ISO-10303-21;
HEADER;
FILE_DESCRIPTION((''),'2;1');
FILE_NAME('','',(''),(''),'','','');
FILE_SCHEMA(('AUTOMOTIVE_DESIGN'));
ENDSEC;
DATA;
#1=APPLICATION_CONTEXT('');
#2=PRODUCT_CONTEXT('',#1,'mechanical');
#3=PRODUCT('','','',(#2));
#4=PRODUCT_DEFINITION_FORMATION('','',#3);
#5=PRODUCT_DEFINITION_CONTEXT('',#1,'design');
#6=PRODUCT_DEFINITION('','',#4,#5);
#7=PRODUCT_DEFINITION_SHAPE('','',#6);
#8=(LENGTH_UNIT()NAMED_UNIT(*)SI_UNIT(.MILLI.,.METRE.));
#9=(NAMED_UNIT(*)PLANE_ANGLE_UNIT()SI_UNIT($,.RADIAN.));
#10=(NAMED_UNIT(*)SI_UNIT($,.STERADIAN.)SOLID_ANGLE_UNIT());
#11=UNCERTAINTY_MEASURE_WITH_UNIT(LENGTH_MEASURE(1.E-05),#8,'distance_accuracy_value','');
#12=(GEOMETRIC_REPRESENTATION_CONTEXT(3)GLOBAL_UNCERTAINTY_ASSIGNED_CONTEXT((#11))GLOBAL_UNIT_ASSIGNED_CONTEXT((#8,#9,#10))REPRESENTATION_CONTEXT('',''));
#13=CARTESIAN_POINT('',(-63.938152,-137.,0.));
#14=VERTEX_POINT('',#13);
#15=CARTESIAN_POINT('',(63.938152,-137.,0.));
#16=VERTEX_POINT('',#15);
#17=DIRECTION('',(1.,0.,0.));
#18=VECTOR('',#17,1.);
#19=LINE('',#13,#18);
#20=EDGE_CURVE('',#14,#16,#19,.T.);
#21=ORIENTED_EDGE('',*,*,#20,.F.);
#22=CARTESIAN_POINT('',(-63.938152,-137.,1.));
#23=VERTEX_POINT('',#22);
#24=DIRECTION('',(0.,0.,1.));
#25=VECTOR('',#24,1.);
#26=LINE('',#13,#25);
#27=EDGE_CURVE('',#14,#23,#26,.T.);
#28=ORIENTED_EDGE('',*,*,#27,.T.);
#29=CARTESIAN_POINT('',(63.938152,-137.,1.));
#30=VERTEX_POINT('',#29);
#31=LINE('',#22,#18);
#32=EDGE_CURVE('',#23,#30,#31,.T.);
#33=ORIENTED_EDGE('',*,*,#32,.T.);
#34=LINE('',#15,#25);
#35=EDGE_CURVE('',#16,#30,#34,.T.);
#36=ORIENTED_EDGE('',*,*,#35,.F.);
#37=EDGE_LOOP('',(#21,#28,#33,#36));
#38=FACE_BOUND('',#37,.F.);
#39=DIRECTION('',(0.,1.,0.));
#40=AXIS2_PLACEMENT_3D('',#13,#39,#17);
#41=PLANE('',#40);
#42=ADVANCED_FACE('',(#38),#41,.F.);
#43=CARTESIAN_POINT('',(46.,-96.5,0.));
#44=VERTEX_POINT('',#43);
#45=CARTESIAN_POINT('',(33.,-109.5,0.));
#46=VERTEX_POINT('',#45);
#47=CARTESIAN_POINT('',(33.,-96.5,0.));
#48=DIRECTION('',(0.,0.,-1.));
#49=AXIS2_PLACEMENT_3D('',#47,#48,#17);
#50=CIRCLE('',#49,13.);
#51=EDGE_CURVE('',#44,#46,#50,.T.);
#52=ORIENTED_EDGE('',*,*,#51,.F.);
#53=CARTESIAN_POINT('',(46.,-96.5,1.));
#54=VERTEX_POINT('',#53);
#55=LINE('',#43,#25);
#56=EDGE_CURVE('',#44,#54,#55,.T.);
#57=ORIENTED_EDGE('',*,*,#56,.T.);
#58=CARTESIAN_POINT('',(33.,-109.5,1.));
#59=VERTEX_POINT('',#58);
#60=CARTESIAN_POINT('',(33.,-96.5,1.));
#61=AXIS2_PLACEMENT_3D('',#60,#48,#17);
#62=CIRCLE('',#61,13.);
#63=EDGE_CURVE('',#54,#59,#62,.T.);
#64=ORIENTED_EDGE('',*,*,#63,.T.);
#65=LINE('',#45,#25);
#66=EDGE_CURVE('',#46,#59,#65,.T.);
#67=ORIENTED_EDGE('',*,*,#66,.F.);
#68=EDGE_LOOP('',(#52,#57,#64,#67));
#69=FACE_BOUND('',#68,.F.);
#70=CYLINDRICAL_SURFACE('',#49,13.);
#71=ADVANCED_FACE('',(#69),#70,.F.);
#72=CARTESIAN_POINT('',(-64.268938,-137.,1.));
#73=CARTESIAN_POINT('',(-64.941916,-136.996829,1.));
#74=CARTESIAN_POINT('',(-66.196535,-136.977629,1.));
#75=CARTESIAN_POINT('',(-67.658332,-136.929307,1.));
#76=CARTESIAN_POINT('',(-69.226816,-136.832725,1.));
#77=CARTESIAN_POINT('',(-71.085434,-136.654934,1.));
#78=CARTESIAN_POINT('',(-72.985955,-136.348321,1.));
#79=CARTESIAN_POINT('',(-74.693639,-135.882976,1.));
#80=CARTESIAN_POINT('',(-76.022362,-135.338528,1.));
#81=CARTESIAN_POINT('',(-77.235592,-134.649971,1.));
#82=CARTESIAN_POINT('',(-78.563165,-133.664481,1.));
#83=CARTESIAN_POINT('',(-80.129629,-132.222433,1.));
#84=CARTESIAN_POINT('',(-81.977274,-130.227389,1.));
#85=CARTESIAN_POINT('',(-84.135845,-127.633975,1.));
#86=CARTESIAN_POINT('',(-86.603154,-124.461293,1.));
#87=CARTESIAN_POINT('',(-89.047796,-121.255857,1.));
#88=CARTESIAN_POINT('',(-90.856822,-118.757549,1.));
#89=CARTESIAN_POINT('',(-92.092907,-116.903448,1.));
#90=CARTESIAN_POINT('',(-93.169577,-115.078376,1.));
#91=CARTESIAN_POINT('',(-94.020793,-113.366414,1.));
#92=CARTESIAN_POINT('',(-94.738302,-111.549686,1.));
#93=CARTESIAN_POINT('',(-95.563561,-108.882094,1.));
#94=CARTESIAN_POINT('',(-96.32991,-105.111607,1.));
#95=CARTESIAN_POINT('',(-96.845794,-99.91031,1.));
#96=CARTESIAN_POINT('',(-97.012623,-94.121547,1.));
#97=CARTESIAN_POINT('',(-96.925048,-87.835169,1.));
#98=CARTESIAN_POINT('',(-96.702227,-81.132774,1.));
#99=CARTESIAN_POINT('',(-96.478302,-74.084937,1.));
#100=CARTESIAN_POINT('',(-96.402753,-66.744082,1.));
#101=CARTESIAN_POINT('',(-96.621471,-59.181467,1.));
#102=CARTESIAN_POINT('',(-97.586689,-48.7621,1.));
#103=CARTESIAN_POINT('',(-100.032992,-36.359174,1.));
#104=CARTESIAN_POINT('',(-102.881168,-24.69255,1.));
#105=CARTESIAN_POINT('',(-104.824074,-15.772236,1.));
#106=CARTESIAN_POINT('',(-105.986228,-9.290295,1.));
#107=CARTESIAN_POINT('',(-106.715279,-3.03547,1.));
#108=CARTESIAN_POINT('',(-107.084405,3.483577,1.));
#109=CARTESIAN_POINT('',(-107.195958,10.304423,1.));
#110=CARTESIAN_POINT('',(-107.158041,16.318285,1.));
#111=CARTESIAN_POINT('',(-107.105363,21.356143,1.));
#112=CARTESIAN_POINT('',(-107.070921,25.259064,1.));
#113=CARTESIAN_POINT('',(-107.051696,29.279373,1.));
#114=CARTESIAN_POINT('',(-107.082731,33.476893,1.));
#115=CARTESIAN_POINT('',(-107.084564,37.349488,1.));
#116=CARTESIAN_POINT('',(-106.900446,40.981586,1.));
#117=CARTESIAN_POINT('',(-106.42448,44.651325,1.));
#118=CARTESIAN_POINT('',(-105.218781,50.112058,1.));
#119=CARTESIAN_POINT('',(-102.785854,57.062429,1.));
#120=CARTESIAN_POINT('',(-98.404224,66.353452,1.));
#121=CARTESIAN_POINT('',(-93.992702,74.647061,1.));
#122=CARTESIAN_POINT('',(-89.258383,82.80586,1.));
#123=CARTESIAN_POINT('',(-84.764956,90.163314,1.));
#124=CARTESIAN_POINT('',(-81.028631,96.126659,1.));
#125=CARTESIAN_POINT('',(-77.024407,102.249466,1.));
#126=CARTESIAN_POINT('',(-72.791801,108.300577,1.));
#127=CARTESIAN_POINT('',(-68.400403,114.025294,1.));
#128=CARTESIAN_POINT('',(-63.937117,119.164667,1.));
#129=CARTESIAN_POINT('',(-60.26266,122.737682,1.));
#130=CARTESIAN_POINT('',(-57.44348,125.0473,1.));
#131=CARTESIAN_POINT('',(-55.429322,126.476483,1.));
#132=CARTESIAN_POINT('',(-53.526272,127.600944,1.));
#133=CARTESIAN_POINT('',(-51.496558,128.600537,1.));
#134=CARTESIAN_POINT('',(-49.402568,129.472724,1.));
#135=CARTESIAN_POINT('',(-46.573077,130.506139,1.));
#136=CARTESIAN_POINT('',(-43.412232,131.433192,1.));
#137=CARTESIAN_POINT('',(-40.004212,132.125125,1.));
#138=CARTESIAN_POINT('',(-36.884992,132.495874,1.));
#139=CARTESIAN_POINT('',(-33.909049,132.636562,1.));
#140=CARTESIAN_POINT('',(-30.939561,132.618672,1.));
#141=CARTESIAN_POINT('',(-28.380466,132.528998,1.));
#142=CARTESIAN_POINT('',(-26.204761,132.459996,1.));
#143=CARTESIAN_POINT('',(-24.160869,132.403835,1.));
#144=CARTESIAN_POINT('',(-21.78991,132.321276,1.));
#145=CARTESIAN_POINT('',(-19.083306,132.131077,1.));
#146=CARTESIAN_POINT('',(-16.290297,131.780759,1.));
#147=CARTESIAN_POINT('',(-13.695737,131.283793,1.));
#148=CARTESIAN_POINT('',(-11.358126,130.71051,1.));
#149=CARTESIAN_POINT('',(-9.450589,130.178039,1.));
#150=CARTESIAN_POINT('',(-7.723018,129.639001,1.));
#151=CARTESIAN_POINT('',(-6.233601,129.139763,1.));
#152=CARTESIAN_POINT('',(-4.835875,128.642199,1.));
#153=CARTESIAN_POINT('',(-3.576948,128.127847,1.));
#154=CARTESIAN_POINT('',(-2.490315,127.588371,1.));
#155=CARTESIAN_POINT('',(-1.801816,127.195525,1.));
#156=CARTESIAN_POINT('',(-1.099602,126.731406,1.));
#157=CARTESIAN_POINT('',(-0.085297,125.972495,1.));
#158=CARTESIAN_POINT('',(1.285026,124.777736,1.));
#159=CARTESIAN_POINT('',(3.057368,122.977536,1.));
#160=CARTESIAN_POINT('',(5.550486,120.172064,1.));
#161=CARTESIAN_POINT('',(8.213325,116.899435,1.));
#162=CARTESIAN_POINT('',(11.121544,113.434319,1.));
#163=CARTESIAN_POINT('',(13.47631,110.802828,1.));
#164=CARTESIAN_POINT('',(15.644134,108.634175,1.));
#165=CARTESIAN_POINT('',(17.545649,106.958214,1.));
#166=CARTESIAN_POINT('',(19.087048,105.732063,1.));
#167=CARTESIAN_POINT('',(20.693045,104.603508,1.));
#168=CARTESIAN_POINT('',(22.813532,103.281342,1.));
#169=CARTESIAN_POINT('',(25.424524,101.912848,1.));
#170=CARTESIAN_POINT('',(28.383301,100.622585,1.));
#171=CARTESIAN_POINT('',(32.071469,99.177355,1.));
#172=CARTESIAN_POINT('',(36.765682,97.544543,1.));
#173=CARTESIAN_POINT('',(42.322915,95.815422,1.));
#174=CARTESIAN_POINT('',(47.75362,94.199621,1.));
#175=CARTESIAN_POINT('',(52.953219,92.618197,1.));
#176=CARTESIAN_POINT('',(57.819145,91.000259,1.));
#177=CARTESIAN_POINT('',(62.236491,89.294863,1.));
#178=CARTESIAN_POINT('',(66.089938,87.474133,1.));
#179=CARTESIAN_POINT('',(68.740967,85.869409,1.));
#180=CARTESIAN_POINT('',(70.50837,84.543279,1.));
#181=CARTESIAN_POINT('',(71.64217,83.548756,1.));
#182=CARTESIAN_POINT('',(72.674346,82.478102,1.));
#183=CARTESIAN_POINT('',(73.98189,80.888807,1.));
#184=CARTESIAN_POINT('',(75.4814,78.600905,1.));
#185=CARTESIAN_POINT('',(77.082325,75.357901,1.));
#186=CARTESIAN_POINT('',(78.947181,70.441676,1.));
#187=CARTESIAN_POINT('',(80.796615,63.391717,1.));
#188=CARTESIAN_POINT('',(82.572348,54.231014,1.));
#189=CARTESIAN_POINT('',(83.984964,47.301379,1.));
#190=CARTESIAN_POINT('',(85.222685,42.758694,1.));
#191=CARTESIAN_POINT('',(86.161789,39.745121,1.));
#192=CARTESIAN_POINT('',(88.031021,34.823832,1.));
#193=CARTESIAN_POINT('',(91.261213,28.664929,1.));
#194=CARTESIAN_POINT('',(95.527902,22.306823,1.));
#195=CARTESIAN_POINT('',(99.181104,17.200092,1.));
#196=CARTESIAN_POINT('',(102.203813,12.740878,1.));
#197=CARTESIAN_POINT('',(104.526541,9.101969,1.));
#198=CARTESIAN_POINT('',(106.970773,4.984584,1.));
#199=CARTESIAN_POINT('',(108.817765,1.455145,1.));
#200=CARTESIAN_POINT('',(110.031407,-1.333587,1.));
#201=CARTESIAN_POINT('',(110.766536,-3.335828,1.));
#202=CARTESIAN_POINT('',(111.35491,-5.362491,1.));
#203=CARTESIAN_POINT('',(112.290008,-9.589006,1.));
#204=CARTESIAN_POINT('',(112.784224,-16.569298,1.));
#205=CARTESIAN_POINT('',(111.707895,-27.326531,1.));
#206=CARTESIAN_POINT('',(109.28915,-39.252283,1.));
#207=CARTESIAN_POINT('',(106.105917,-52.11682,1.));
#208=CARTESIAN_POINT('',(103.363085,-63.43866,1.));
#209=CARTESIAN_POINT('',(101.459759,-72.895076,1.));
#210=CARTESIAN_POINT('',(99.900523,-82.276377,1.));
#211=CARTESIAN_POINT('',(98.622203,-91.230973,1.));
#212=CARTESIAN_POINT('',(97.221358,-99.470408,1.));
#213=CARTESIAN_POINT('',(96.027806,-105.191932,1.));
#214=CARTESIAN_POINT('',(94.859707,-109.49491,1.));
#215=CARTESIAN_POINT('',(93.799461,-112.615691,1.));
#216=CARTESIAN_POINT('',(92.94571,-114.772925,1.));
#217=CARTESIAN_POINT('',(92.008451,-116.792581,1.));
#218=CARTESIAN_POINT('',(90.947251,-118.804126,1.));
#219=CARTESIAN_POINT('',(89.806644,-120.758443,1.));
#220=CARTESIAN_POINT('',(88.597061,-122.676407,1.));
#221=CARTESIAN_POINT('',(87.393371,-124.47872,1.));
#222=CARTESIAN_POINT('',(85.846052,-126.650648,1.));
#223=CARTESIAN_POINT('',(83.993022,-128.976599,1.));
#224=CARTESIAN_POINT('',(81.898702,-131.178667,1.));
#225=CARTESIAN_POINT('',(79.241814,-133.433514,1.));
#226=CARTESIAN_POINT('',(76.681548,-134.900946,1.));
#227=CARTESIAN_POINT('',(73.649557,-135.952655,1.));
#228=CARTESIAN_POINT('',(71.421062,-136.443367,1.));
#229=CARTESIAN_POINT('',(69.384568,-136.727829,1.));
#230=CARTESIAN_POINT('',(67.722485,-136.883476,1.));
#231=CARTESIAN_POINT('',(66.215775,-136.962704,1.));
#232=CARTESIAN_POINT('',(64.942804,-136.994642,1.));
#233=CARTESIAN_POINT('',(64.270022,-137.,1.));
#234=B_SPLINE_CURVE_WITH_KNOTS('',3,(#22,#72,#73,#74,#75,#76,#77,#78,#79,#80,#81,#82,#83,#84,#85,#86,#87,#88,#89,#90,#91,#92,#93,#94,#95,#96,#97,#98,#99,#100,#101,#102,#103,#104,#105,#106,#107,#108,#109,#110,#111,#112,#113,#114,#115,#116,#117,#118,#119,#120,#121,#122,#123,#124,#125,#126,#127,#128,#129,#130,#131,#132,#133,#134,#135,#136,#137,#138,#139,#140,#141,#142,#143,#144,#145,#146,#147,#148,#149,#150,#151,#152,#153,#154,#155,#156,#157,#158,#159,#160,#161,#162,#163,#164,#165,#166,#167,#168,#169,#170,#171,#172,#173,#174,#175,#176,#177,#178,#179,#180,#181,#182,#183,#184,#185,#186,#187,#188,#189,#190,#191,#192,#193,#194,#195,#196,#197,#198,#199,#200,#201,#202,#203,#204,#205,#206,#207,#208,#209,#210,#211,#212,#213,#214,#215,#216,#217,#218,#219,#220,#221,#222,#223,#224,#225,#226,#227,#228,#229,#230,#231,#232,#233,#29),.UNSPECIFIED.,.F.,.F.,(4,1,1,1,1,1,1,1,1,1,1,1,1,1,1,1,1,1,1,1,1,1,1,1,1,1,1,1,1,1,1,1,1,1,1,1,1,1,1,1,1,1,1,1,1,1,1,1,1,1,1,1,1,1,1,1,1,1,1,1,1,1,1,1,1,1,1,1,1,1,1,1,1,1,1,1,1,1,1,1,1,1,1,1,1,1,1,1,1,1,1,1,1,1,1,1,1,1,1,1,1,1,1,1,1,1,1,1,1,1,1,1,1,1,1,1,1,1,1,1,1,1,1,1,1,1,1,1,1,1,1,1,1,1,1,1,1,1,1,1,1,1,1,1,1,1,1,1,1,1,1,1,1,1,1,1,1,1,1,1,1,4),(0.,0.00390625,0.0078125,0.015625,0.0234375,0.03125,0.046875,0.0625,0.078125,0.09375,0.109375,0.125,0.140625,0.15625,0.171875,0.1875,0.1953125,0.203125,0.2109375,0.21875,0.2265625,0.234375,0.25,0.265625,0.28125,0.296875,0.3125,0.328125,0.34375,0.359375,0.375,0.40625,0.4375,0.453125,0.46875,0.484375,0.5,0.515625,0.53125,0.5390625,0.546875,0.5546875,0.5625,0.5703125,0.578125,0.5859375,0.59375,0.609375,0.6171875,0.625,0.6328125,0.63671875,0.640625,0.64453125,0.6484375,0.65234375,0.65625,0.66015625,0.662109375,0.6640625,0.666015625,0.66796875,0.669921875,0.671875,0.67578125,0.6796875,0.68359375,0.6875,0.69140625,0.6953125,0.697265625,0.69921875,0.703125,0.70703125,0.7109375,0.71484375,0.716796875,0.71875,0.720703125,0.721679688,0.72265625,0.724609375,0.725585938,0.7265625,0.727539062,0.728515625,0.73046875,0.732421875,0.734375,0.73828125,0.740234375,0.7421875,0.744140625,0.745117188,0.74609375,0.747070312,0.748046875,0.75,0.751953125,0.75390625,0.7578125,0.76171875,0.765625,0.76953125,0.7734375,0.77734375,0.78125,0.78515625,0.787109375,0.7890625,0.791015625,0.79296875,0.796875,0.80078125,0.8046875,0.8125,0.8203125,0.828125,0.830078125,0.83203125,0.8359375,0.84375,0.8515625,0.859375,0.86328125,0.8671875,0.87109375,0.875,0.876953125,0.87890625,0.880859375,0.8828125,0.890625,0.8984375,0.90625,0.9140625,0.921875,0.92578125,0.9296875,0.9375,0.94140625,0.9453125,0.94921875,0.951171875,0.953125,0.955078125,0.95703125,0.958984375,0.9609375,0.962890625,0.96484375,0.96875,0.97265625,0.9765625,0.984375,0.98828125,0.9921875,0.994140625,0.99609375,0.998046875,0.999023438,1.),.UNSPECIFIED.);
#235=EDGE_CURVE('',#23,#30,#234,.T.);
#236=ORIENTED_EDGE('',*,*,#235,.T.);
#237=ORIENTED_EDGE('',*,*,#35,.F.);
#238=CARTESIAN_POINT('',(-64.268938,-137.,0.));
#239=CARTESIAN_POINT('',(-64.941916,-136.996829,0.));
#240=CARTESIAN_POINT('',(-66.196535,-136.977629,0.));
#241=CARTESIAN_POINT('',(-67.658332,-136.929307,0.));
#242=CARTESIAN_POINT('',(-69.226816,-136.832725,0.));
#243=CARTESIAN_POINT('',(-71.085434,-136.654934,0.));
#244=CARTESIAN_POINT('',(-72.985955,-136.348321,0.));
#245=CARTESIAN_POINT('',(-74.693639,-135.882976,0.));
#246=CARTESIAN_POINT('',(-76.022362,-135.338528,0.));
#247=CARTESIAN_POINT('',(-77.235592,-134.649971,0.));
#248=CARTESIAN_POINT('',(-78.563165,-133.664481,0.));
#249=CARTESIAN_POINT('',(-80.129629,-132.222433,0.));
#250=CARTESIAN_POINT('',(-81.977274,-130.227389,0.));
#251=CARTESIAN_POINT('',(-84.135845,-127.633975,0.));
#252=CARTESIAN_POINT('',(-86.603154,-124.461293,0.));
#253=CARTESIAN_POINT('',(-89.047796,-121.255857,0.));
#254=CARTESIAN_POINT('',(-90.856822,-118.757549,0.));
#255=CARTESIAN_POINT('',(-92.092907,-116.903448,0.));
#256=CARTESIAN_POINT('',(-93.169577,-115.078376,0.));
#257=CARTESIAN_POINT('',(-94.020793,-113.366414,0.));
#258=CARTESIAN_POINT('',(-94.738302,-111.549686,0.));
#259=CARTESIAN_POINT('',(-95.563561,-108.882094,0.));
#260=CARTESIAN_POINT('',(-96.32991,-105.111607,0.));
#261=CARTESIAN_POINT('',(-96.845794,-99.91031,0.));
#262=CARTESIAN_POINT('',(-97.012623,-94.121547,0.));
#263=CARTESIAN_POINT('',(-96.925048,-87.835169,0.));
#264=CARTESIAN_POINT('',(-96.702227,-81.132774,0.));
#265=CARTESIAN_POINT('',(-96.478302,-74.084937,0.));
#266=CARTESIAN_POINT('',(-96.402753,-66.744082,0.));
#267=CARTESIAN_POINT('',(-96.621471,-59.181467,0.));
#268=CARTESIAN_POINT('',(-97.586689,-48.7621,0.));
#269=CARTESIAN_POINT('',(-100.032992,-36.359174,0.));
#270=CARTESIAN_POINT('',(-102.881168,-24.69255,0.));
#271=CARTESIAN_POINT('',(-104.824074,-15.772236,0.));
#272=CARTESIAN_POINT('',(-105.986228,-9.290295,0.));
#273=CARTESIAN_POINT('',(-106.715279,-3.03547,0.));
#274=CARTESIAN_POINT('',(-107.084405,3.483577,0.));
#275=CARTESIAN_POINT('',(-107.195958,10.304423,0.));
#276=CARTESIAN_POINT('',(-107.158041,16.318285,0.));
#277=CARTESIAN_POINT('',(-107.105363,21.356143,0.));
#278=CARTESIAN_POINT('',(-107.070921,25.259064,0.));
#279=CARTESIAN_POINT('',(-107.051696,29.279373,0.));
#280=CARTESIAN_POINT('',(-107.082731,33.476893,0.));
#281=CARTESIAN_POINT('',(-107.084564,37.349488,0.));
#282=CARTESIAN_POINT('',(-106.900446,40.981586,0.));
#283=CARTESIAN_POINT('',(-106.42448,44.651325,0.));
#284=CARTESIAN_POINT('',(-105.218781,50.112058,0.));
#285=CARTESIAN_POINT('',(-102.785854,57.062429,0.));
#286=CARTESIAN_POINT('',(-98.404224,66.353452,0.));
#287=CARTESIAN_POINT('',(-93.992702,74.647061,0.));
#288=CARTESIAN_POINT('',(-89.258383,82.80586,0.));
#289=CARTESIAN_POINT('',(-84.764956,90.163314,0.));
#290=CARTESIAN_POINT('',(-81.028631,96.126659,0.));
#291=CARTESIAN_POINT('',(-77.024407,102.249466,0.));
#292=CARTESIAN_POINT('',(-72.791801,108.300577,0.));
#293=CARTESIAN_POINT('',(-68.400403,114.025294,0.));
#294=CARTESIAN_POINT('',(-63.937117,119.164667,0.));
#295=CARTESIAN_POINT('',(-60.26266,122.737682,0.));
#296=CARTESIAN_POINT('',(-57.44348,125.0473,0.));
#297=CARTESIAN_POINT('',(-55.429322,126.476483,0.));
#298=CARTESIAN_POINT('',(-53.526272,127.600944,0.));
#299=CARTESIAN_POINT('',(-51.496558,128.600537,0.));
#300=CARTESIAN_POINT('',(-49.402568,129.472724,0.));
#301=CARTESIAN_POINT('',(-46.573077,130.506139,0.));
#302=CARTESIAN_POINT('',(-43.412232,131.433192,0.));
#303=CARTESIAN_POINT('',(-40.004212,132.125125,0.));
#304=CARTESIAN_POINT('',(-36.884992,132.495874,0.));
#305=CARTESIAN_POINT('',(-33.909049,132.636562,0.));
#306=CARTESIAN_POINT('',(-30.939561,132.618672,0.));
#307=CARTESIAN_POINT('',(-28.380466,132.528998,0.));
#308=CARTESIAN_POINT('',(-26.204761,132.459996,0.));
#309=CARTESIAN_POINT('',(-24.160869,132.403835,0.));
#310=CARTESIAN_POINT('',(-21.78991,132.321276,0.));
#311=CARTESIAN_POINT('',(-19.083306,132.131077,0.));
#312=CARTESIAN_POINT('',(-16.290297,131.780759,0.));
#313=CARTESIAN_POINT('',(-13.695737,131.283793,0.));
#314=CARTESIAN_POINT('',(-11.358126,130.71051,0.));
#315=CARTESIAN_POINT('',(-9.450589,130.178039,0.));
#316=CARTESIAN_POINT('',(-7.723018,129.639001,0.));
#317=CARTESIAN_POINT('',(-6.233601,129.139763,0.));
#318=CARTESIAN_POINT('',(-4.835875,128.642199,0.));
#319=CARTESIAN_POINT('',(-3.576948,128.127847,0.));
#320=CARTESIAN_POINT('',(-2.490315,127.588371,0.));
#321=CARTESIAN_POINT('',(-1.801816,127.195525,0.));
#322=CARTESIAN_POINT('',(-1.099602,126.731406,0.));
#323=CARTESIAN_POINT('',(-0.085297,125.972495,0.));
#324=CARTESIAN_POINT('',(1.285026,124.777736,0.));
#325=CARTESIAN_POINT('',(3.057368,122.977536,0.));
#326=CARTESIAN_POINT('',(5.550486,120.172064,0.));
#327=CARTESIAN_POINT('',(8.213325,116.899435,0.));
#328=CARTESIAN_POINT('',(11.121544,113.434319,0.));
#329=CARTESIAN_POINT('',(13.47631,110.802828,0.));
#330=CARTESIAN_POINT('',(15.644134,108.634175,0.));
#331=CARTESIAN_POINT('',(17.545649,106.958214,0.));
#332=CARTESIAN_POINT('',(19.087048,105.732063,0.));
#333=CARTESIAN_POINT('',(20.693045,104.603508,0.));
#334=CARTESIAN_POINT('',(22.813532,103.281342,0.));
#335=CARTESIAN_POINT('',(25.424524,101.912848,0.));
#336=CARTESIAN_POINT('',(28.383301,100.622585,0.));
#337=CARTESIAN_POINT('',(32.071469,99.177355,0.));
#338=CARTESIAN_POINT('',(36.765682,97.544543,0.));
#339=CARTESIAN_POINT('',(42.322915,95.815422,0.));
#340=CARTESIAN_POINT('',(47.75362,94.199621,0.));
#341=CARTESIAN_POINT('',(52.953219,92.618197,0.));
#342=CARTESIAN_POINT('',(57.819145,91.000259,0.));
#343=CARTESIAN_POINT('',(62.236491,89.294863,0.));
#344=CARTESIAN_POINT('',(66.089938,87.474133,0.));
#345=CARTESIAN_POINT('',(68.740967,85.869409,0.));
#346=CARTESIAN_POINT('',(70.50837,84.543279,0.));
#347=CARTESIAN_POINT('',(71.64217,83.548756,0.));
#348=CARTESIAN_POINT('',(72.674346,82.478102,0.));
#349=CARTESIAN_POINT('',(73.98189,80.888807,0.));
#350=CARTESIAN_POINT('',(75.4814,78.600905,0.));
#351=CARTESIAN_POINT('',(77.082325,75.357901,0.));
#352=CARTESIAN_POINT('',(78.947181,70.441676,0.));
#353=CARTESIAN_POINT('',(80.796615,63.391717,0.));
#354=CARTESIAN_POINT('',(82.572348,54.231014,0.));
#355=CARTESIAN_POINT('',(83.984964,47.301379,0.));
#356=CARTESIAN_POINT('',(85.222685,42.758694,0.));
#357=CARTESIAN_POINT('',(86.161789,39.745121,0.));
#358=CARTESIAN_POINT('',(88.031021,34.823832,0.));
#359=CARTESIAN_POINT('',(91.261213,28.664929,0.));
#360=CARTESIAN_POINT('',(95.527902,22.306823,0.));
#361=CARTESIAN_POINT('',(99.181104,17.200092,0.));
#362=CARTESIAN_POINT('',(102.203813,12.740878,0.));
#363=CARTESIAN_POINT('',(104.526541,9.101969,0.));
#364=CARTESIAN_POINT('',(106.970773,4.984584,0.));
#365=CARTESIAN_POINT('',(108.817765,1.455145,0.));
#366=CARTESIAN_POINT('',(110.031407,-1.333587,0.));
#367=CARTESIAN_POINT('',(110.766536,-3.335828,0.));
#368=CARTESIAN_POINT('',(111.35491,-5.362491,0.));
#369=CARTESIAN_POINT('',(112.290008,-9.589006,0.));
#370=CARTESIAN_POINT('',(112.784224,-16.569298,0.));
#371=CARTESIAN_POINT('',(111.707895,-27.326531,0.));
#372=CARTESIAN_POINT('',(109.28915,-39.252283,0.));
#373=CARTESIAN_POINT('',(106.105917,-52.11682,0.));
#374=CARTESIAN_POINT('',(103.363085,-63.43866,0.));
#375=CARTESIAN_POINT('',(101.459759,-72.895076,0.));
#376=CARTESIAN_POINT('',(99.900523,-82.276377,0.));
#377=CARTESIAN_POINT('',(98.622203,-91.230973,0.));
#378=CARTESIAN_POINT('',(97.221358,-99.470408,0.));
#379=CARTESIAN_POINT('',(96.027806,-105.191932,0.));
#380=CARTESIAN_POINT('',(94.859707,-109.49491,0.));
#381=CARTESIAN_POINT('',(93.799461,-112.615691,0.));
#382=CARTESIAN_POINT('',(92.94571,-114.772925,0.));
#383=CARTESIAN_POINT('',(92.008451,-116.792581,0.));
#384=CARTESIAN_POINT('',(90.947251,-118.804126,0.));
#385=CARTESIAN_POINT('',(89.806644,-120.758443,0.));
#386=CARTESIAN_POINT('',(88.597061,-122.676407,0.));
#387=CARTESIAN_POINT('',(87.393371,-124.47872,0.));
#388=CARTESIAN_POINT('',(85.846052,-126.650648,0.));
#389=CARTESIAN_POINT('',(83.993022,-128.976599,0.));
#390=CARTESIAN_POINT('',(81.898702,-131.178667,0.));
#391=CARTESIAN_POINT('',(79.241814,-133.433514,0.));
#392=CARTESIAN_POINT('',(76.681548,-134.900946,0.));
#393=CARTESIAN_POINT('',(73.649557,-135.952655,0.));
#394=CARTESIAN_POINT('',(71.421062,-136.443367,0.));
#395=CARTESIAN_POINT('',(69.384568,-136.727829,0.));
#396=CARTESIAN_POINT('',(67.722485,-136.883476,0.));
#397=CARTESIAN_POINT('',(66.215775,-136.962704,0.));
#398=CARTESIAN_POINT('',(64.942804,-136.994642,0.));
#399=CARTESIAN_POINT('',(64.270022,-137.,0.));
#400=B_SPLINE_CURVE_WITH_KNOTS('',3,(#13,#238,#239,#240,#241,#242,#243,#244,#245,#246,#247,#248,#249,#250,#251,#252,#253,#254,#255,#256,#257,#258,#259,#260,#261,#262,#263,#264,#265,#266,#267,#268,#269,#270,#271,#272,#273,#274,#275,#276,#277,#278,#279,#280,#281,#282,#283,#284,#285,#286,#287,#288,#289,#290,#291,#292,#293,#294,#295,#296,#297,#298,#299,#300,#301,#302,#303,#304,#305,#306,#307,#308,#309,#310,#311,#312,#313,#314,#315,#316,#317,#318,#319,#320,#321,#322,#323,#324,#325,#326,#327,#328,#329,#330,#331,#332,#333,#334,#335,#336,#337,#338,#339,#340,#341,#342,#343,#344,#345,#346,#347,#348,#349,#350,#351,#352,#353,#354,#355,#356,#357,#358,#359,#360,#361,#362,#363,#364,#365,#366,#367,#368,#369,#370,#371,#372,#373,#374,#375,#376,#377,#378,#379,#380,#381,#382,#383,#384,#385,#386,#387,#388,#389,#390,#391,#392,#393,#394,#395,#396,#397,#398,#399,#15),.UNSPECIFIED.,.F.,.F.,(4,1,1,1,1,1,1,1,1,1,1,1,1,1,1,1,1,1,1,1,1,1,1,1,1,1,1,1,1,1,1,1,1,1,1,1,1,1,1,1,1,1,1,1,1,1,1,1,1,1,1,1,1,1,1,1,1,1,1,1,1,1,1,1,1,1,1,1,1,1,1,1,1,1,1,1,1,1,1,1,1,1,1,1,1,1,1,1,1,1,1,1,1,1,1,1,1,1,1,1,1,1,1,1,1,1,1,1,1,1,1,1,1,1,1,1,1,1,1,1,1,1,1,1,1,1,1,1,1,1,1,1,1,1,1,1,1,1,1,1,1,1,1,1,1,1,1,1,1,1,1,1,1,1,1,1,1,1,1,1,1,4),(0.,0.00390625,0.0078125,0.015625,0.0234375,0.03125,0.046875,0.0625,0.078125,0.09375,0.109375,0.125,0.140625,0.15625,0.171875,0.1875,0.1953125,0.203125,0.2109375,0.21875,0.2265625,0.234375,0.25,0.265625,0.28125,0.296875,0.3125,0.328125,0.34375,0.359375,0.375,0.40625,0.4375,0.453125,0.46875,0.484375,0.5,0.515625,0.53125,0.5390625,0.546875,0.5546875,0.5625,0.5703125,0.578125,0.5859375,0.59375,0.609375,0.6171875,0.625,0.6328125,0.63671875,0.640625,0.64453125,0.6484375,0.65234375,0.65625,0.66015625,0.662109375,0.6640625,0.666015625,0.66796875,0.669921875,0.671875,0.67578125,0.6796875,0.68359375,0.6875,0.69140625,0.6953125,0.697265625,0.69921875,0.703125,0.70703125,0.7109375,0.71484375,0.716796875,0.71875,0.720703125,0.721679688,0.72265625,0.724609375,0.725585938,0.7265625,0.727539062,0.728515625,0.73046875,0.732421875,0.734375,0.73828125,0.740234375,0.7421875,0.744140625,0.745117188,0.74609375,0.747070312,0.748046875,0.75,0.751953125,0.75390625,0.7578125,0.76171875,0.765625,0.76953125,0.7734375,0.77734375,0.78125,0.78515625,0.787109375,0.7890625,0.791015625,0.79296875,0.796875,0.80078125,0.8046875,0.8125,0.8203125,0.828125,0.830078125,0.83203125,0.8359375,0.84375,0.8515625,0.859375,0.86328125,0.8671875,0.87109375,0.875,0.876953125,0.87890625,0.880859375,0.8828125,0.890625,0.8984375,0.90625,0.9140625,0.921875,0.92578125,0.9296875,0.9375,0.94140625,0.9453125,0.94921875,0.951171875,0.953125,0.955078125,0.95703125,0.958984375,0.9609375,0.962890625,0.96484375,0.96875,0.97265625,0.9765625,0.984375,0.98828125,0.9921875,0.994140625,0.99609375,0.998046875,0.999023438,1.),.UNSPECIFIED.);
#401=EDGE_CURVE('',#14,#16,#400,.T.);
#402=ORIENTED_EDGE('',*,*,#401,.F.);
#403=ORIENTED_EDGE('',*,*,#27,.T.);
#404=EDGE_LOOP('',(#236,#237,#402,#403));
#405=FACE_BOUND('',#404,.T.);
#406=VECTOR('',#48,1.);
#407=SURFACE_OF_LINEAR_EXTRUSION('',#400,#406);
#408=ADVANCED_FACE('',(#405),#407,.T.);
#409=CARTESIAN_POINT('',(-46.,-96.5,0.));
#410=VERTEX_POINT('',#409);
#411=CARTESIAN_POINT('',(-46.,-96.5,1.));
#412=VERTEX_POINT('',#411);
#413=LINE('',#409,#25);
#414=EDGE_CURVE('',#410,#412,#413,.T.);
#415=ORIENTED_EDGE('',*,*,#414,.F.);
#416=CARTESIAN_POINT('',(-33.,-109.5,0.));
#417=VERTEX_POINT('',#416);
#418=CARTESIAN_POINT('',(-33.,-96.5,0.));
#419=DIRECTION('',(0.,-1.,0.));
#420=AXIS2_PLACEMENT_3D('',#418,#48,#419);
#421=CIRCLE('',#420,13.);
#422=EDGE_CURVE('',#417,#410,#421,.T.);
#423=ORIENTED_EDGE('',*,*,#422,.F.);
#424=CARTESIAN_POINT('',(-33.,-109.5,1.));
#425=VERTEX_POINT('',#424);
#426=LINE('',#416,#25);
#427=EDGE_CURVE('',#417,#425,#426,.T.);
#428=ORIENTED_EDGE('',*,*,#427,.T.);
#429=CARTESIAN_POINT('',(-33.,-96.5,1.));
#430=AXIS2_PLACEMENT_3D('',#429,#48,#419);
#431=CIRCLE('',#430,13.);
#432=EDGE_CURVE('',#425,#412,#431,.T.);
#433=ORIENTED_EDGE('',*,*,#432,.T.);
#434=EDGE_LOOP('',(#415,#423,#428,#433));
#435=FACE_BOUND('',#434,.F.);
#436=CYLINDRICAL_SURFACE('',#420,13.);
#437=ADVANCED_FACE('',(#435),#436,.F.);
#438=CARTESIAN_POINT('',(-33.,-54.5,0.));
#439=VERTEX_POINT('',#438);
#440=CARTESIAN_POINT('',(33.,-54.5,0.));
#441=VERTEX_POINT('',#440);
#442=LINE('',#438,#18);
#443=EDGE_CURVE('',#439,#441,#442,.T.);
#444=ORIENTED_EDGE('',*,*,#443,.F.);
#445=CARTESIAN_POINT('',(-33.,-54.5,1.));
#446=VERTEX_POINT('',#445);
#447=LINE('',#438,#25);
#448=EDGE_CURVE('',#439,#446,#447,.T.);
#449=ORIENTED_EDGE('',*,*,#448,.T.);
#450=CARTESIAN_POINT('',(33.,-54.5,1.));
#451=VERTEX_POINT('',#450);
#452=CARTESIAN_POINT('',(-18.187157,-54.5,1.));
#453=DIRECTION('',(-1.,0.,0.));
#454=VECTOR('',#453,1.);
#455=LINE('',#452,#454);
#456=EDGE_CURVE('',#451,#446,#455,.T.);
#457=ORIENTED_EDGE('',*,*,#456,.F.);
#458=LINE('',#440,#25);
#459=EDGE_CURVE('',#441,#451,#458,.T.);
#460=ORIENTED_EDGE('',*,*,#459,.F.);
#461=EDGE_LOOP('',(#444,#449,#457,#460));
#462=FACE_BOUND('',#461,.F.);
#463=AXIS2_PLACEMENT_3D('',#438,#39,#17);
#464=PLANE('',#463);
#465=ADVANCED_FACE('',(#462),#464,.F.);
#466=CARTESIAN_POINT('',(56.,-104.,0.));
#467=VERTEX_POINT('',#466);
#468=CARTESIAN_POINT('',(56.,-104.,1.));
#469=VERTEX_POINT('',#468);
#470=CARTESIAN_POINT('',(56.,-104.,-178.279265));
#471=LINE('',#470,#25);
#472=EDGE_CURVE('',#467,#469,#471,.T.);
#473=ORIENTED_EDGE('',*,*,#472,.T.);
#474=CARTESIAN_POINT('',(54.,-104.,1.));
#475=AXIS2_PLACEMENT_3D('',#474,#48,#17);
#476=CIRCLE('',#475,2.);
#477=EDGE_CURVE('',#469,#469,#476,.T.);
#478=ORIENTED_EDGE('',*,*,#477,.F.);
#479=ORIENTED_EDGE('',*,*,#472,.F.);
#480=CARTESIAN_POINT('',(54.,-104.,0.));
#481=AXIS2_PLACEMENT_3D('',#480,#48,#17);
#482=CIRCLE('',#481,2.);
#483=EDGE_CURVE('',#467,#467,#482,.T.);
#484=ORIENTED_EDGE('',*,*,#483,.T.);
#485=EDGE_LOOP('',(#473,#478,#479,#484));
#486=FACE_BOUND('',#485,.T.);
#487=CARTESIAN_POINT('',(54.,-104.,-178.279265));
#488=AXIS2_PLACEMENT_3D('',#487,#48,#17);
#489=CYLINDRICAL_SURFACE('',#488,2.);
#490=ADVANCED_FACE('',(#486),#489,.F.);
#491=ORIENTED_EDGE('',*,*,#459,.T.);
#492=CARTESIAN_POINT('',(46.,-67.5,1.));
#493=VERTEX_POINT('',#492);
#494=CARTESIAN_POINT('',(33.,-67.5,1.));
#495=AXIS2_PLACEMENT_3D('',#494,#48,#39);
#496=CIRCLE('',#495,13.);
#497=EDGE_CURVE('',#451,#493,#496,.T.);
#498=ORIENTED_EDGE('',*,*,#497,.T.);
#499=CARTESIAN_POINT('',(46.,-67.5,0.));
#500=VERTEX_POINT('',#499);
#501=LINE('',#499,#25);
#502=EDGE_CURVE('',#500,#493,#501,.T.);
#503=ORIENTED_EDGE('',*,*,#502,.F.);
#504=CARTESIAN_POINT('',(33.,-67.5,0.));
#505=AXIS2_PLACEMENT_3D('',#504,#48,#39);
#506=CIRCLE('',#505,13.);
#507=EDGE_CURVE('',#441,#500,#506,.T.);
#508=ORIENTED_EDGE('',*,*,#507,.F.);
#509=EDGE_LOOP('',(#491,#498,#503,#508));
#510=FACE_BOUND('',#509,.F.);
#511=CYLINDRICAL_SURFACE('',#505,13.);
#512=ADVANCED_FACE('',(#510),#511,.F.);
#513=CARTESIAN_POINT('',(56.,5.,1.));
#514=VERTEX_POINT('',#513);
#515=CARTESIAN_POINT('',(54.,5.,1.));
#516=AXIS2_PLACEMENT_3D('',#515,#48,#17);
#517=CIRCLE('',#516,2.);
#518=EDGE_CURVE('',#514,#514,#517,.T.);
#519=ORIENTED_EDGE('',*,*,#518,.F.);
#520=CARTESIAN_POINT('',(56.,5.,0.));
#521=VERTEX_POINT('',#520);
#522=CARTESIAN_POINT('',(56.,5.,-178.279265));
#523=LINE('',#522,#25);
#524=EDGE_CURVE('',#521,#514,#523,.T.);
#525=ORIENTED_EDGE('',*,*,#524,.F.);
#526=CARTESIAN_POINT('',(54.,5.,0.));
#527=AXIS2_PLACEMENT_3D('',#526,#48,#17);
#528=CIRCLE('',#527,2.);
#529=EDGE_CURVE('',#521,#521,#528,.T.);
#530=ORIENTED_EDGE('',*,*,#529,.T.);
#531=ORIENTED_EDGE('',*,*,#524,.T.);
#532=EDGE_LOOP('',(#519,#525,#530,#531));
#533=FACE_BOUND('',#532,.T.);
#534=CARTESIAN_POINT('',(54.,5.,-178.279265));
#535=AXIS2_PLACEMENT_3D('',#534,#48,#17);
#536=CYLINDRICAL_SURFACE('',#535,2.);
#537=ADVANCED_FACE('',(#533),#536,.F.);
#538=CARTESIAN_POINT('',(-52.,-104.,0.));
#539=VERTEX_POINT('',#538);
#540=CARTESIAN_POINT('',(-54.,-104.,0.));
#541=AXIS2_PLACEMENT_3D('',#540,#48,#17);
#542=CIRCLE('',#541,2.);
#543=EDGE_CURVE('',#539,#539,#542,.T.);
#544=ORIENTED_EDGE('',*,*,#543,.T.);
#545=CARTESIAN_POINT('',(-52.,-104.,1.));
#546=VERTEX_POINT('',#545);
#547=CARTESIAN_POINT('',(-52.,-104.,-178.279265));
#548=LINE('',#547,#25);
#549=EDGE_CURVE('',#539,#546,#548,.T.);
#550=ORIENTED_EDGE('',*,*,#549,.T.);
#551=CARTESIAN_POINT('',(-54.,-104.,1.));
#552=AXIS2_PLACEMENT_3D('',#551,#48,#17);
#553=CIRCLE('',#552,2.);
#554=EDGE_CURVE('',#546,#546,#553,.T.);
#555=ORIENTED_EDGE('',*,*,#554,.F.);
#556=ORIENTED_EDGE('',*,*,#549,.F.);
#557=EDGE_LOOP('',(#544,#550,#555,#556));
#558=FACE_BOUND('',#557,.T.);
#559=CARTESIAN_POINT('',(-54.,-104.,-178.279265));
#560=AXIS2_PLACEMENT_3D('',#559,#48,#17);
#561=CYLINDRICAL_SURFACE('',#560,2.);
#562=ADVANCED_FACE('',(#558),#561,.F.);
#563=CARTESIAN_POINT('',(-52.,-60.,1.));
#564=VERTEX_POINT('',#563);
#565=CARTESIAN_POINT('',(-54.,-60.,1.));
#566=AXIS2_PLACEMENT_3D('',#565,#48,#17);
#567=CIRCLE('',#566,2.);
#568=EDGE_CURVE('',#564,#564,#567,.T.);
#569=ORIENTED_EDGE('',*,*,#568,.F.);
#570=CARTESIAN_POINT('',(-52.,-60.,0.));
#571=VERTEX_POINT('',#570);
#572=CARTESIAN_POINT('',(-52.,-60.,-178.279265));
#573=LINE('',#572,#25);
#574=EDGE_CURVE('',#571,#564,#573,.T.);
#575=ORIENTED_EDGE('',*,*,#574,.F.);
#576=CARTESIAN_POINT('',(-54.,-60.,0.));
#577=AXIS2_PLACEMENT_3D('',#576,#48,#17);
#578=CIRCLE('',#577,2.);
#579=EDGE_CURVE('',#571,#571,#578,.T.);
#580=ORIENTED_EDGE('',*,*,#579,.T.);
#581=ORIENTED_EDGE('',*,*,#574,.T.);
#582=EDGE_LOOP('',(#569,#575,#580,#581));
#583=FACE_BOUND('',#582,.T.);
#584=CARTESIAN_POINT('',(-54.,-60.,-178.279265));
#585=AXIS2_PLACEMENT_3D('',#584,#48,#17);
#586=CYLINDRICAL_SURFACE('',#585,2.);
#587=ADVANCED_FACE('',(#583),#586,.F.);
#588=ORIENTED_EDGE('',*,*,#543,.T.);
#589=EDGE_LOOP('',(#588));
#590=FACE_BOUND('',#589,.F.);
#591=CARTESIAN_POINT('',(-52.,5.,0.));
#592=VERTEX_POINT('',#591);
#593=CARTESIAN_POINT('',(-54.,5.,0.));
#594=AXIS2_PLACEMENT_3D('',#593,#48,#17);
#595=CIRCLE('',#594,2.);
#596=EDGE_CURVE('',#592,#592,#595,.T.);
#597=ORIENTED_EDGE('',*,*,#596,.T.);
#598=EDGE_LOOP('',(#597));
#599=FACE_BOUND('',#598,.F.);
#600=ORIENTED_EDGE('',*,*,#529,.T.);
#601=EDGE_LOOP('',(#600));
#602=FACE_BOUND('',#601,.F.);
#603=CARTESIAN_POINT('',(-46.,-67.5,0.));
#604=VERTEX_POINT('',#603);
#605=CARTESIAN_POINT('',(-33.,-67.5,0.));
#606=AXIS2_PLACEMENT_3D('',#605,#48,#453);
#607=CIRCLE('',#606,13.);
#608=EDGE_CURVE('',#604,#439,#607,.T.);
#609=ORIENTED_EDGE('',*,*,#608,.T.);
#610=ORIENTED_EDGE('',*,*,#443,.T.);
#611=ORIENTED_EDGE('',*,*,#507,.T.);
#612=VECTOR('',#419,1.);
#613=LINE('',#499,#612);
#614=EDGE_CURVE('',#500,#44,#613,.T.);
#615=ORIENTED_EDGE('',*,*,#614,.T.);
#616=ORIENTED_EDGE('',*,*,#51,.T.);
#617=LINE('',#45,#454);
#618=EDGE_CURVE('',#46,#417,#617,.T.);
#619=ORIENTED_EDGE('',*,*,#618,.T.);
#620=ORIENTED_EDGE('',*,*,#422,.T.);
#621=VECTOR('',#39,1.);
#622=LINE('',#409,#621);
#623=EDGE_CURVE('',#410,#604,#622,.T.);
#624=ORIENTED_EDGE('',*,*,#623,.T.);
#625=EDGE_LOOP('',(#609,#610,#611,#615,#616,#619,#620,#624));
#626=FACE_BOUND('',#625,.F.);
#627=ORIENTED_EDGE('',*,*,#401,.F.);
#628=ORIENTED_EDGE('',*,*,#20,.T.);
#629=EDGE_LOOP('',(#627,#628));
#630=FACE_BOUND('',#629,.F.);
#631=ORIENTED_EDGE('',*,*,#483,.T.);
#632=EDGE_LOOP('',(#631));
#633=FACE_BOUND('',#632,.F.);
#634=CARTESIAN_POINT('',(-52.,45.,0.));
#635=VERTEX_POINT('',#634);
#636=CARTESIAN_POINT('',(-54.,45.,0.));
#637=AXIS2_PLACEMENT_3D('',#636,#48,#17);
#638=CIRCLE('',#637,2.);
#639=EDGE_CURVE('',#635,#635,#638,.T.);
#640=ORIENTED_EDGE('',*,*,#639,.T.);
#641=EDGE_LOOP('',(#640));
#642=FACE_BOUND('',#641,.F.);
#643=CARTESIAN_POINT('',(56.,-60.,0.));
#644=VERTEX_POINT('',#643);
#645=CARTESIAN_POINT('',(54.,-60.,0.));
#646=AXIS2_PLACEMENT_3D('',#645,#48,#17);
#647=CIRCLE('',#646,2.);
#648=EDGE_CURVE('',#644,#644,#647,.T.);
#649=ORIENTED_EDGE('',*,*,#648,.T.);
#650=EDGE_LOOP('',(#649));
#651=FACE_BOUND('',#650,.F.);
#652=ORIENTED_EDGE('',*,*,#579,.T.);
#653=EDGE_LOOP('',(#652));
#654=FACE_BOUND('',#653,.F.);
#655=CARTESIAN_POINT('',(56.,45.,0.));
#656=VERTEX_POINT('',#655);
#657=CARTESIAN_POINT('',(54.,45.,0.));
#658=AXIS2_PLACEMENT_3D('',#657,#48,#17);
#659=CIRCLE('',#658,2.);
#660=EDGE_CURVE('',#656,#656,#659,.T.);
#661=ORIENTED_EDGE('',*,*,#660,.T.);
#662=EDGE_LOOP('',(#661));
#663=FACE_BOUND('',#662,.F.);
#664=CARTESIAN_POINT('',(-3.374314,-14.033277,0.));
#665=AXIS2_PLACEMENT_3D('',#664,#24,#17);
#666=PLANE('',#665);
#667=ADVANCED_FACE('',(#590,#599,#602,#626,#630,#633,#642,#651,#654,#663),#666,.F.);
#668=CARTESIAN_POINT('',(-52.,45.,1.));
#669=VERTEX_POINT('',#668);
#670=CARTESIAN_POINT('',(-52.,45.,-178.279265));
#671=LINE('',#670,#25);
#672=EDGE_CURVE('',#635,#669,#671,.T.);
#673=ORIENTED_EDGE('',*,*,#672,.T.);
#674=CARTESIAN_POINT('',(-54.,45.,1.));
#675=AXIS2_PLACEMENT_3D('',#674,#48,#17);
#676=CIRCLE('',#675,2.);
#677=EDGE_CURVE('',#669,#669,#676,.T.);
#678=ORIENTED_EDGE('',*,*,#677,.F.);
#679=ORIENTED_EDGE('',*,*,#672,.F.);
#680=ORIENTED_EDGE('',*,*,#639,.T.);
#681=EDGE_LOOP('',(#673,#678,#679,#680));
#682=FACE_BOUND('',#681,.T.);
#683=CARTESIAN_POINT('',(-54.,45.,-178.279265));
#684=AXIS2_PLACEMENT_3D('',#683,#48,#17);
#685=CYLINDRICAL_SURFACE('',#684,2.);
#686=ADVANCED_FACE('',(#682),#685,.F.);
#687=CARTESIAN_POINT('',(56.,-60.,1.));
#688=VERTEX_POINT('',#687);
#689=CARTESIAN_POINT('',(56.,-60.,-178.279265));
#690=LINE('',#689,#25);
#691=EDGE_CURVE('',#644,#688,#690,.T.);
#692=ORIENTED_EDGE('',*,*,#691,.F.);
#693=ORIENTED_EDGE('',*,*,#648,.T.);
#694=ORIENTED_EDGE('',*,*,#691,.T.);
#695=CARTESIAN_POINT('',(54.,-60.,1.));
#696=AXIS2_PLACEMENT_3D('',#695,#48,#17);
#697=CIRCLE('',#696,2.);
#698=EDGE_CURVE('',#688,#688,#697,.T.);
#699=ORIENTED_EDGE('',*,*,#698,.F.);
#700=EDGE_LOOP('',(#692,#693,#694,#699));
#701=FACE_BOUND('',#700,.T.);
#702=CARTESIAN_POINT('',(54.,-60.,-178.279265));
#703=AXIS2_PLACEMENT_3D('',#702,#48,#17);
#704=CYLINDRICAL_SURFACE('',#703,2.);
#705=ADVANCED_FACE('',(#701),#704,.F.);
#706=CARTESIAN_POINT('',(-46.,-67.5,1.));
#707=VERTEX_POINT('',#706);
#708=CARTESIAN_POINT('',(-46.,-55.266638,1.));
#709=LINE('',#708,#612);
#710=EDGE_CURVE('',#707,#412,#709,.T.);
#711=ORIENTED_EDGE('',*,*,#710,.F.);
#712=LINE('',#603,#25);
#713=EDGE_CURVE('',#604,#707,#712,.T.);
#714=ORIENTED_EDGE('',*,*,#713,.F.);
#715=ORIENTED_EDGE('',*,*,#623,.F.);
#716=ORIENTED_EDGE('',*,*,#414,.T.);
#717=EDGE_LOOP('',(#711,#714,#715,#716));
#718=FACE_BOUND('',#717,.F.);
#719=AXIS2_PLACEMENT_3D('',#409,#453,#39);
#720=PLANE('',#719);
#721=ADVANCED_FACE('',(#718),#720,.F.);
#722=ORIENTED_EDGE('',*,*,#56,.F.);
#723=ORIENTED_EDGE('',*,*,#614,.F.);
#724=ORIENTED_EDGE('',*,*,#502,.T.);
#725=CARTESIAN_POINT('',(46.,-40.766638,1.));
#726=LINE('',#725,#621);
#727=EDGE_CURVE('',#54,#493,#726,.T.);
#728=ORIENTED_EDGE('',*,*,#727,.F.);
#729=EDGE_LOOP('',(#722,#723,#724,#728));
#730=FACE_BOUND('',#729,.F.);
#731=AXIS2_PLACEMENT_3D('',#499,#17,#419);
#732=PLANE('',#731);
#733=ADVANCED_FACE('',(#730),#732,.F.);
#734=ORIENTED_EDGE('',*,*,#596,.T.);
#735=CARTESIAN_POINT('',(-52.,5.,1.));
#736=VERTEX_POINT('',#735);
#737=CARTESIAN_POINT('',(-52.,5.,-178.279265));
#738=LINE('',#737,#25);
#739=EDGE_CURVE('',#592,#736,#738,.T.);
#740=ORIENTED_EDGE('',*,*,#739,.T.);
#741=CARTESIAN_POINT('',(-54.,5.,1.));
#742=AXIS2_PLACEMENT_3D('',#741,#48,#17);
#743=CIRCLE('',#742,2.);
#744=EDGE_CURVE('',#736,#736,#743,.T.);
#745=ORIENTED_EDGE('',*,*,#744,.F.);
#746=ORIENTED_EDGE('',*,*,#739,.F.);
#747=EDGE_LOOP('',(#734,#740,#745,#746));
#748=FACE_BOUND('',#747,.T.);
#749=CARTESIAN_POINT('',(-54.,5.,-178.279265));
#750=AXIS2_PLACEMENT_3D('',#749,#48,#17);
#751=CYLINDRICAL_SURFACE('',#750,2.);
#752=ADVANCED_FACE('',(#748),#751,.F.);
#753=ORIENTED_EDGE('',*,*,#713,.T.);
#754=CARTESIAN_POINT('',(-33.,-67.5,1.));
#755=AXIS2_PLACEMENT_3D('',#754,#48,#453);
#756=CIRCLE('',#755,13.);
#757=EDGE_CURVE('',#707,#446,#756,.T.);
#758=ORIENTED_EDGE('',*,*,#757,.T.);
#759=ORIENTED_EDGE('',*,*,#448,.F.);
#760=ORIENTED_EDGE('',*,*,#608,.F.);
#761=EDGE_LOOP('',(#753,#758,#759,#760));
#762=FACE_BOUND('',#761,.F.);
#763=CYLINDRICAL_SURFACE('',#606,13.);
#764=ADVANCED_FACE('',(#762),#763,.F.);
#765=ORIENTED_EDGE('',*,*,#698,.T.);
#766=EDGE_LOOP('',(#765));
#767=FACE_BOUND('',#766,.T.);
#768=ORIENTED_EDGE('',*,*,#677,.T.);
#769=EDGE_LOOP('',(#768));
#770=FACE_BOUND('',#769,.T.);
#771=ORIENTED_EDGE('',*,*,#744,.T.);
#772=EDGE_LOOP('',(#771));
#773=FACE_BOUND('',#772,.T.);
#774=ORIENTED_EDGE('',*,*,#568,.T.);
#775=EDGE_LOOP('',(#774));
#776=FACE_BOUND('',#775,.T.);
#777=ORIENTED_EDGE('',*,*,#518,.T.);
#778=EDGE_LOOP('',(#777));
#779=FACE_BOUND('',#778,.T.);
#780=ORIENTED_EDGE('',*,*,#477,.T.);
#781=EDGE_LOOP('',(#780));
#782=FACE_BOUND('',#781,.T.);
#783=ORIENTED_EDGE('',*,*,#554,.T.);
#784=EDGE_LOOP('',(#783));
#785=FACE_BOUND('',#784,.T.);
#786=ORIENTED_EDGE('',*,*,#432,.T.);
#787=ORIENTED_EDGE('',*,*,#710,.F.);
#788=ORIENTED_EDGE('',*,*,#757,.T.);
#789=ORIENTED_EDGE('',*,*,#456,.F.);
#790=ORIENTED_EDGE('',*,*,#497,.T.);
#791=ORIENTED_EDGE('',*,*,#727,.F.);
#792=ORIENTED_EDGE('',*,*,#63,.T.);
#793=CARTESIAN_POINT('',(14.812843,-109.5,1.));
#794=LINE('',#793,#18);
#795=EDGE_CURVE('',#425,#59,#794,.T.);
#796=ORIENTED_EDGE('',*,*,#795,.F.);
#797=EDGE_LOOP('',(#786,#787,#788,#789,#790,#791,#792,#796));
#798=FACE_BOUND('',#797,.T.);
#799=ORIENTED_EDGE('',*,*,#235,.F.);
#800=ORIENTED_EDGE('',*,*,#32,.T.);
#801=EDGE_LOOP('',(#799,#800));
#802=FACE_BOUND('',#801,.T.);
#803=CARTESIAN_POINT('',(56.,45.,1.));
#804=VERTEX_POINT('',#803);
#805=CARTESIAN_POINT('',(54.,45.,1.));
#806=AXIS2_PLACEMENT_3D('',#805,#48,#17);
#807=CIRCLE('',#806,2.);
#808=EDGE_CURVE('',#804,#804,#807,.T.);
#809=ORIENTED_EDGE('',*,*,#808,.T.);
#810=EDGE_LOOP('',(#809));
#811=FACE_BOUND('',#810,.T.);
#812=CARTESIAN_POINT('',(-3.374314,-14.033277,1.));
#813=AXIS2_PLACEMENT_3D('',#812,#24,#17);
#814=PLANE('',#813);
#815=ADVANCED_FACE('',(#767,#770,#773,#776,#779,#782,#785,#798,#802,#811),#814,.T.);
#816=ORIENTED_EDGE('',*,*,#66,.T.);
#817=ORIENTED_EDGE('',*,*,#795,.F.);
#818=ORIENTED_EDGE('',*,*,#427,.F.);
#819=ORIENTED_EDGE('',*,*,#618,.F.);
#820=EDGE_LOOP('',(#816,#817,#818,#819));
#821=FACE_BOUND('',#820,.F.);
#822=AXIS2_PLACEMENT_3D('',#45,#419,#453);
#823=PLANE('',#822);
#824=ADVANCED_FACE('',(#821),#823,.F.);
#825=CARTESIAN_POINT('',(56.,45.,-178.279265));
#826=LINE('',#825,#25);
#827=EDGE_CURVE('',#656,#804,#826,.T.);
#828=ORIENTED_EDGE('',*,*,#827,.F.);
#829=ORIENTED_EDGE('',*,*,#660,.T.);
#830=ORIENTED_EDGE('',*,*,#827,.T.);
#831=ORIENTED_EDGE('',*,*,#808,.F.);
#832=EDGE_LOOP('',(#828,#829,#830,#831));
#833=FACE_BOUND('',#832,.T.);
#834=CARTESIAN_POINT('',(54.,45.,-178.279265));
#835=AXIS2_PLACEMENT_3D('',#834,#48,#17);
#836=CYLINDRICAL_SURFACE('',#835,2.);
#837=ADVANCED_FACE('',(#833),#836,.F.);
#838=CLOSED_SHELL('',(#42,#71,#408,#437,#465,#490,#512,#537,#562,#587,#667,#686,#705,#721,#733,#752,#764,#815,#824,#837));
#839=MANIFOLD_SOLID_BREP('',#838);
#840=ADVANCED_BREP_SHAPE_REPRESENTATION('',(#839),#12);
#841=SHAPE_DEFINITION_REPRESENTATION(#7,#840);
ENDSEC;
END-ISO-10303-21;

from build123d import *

# Parameters (mm, degrees)
AUFSATZ_LINEAR_AUSTRAGEN1_DEPTH      = 1
SCHNITT_LINEAR_AUSTRAGEN4_DEPTH      = 178.279264724
SCHNITT_LINEAR_AUSTRAGEN4_DEPTH_BACK = 178.279264724
SKIZZE2_R                            = 2
SCHNITT_LINEAR_AUSTRAGEN6_DEPTH      = 178.279264724


with BuildPart() as part:
    # Skizze1 → Aufsatz-Linear austragen1 (new body)
    with BuildSketch(Plane.XY):
        with BuildLine():
            Line((-63.938151944, -137), (63.938151944, -137))
            add(Edge.make_bspline(
                [(-63.938151944, -137), (-64.268938192, -137), (-64.941916449, -136.996829184), (-66.196534836, -136.9776294), (-67.65833175, -136.929307352), (-69.226815722, -136.832724532), (-71.085433613, -136.654933731), (-72.98595518, -136.348320567), (-74.693639461, -135.882975891), (-76.022362465, -135.338527521), (-77.235592363, -134.649971025), (-78.563165157, -133.664481159), (-80.12962877, -132.222433205), (-81.977274042, -130.227388829), (-84.13584453, -127.63397464), (-86.603153748, -124.461292626), (-89.047795785, -121.255856576), (-90.856822147, -118.757549112), (-92.09290748, -116.903448032), (-93.169576784, -115.078375567), (-94.020793275, -113.366413976), (-94.738302469, -111.549686334), (-95.563561355, -108.882094196), (-96.329910326, -105.111606693), (-96.845794337, -99.910310023), (-97.012622869, -94.121547458), (-96.925047503, -87.835168612), (-96.702226981, -81.132773735), (-96.478301521, -74.084937154), (-96.402752898, -66.744082429), (-96.62147137, -59.181466733), (-97.586689217, -48.762099554), (-100.032991635, -36.3591744), (-102.881167686, -24.692549631), (-104.824073558, -15.772236147), (-105.986228227, -9.290294941), (-106.715278533, -3.035469614), (-107.084404975, 3.483576605), (-107.195958334, 10.304423092), (-107.158040619, 16.318285105), (-107.105363452, 21.356143349), (-107.07092055, 25.25906412), (-107.051695628, 29.279373232), (-107.082731021, 33.476893033), (-107.084563892, 37.349488411), (-106.900445591, 40.981585845), (-106.424480002, 44.65132546), (-105.218780866, 50.112058037), (-102.785854091, 57.062428617), (-98.404223916, 66.353452214), (-93.992701571, 74.647061476), (-89.258382918, 82.805860281), (-84.764955909, 90.163314111), (-81.028631169, 96.126659384), (-77.024407189, 102.249465581), (-72.791801151, 108.300576652), (-68.4004027, 114.025294202), (-63.937117036, 119.164666504), (-60.262660296, 122.737681578), (-57.443480353, 125.04730014), (-55.429321937, 126.476482771), (-53.526271713, 127.600943771), (-51.496558438, 128.600536683), (-49.402567894, 129.472724327), (-46.573076615, 130.506138545), (-43.412232193, 131.433192146), (-40.004212386, 132.125124578), (-36.884991622, 132.495874282), (-33.909049358, 132.636562354), (-30.939561358, 132.618671738), (-28.38046573, 132.52899814), (-26.204761365, 132.459996314), (-24.16086924, 132.403834721), (-21.789910119, 132.3212757), (-19.083306272, 132.131076919), (-16.290296982, 131.780758509), (-13.695736767, 131.283793135), (-11.358126179, 130.710510077), (-9.450588725, 130.178038782), (-7.72301768, 129.639000867), (-6.23360104, 129.139762588), (-4.835875411, 128.642198894), (-3.57694756, 128.127847015), (-2.490314643, 127.588371028), (-1.801816295, 127.19552464), (-1.099602275, 126.731405695), (-0.08529709, 125.97249515), (1.285026268, 124.777736465), (3.057368392, 122.977535769), (5.550485737, 120.172063642), (8.213324764, 116.899434802), (11.121544125, 113.434319245), (13.476310203, 110.802828182), (15.644134367, 108.634175276), (17.545648648, 106.958214453), (19.087047902, 105.732062628), (20.693045497, 104.60350806), (22.813531939, 103.281342456), (25.424523934, 101.912848285), (28.38330116, 100.622585148), (32.07146896, 99.177355112), (36.765682082, 97.54454321), (42.322914538, 95.815422281), (47.753619802, 94.199621234), (52.953219257, 92.618196526), (57.819145287, 91.000258911), (62.236491134, 89.294863437), (66.089938345, 87.474132757), (68.740967056, 85.869408552), (70.508369693, 84.543278556), (71.642170437, 83.548756175), (72.674345921, 82.478101573), (73.981889614, 80.888806569), (75.481400294, 78.600904877), (77.082324624, 75.357901383), (78.947180969, 70.441675825), (80.796615318, 63.391717346), (82.572348399, 54.231013887), (83.984964321, 47.301379349), (85.22268487, 42.758693925), (86.16178922, 39.745121331), (88.031021386, 34.823832251), (91.261213007, 28.664929484), (95.527901665, 22.306823263), (99.181104002, 17.200091714), (102.203812988, 12.740877857), (104.526541321, 9.10196909), (106.970773275, 4.984583859), (108.817764705, 1.455144615), (110.031407026, -1.333586648), (110.766535528, -3.335827953), (111.354909746, -5.362490958), (112.290008308, -9.589005934), (112.784223855, -16.569298474), (111.707895243, -27.3265306), (109.289149668, -39.252282784), (106.105917367, -52.116819825), (103.363084972, -63.438660263), (101.459759348, -72.895076379), (99.900523279, -82.276376939), (98.622203411, -91.230973064), (97.221358155, -99.470408448), (96.027805644, -105.191931743), (94.859707189, -109.494910463), (93.799460735, -112.615691365), (92.945709549, -114.772924501), (92.008451175, -116.792581461), (90.94725065, -118.804125759), (89.806644306, -120.758443284), (88.597061231, -122.676406676), (87.393371106, -124.478719627), (85.846051631, -126.650647577), (83.993021622, -128.976599366), (81.898701742, -131.178667006), (79.24181361, -133.43351396), (76.681548127, -134.900946276), (73.649556584, -135.952655042), (71.42106241, -136.44336712), (69.384568426, -136.727828832), (67.722485048, -136.883476011), (66.215774531, -136.96270397), (64.942803997, -136.994642024), (64.270021975, -137), (63.938151944, -137)],
                knots=[0, 0, 0, 0, 0.00390625, 0.0078125, 0.015625, 0.0234375, 0.03125, 0.046875, 0.0625, 0.078125, 0.09375, 0.109375, 0.125, 0.140625, 0.15625, 0.171875, 0.1875, 0.1953125, 0.203125, 0.2109375, 0.21875, 0.2265625, 0.234375, 0.25, 0.265625, 0.28125, 0.296875, 0.3125, 0.328125, 0.34375, 0.359375, 0.375, 0.40625, 0.4375, 0.453125, 0.46875, 0.484375, 0.5, 0.515625, 0.53125, 0.5390625, 0.546875, 0.5546875, 0.5625, 0.5703125, 0.578125, 0.5859375, 0.59375, 0.609375, 0.6171875, 0.625, 0.6328125, 0.63671875, 0.640625, 0.64453125, 0.6484375, 0.65234375, 0.65625, 0.66015625, 0.662109375, 0.6640625, 0.666015625, 0.66796875, 0.669921875, 0.671875, 0.67578125, 0.6796875, 0.68359375, 0.6875, 0.69140625, 0.6953125, 0.697265625, 0.69921875, 0.703125, 0.70703125, 0.7109375, 0.71484375, 0.716796875, 0.71875, 0.720703125, 0.721679688, 0.72265625, 0.724609375, 0.725585938, 0.7265625, 0.727539062, 0.728515625, 0.73046875, 0.732421875, 0.734375, 0.73828125, 0.740234375, 0.7421875, 0.744140625, 0.745117188, 0.74609375, 0.747070312, 0.748046875, 0.75, 0.751953125, 0.75390625, 0.7578125, 0.76171875, 0.765625, 0.76953125, 0.7734375, 0.77734375, 0.78125, 0.78515625, 0.787109375, 0.7890625, 0.791015625, 0.79296875, 0.796875, 0.80078125, 0.8046875, 0.8125, 0.8203125, 0.828125, 0.830078125, 0.83203125, 0.8359375, 0.84375, 0.8515625, 0.859375, 0.86328125, 0.8671875, 0.87109375, 0.875, 0.876953125, 0.87890625, 0.880859375, 0.8828125, 0.890625, 0.8984375, 0.90625, 0.9140625, 0.921875, 0.92578125, 0.9296875, 0.9375, 0.94140625, 0.9453125, 0.94921875, 0.951171875, 0.953125, 0.955078125, 0.95703125, 0.958984375, 0.9609375, 0.962890625, 0.96484375, 0.96875, 0.97265625, 0.9765625, 0.984375, 0.98828125, 0.9921875, 0.994140625, 0.99609375, 0.998046875, 0.999023438, 1, 1, 1, 1], degree=3))
        make_face()
    extrude(amount=AUFSATZ_LINEAR_AUSTRAGEN1_DEPTH)

    # Skizze2 → Schnitt-Linear austragen4 (cut, two sides: drawn at the far end of the back side and taken through both)
    with BuildSketch(Plane.XY.offset(-SCHNITT_LINEAR_AUSTRAGEN4_DEPTH_BACK)):
        with Locations((-54, 45)):
            Circle(SKIZZE2_R)
        with Locations((-54, 5)):
            Circle(SKIZZE2_R)
        with Locations((54, 45)):
            Circle(SKIZZE2_R)
        with Locations((54, 5)):
            Circle(SKIZZE2_R)
        with Locations((54, -60)):
            Circle(SKIZZE2_R)
        with Locations((54, -104)):
            Circle(SKIZZE2_R)
        with Locations((-54, -104)):
            Circle(SKIZZE2_R)
        with Locations((-54, -60)):
            Circle(SKIZZE2_R)
    extrude(amount=SCHNITT_LINEAR_AUSTRAGEN4_DEPTH + SCHNITT_LINEAR_AUSTRAGEN4_DEPTH_BACK, mode=Mode.SUBTRACT)

    # Skizze3 → Schnitt-Linear austragen6 (cut, through all)
    with BuildSketch(Plane(origin=(0, 0, 0), x_dir=(-1, 0, 0), z_dir=(0, 0, -1))):
        with BuildLine():
            Line((33, -54.5), (-33, -54.5))
            ThreePointArc((-33, -54.5), (-42.192388155, -58.307611845), (-46, -67.5))
            Line((-46, -67.5), (-46, -96.5))
            ThreePointArc((-46, -96.5), (-42.192388155, -105.692388155), (-33, -109.5))
            Line((-33, -109.5), (33, -109.5))
            ThreePointArc((33, -109.5), (42.192388155, -105.692388155), (46, -96.5))
            Line((46, -96.5), (46, -67.5))
            ThreePointArc((46, -67.5), (42.192388155, -58.307611845), (33, -54.5))
        make_face()
    extrude(amount=-SCHNITT_LINEAR_AUSTRAGEN6_DEPTH, mode=Mode.SUBTRACT)


solid = part.part
